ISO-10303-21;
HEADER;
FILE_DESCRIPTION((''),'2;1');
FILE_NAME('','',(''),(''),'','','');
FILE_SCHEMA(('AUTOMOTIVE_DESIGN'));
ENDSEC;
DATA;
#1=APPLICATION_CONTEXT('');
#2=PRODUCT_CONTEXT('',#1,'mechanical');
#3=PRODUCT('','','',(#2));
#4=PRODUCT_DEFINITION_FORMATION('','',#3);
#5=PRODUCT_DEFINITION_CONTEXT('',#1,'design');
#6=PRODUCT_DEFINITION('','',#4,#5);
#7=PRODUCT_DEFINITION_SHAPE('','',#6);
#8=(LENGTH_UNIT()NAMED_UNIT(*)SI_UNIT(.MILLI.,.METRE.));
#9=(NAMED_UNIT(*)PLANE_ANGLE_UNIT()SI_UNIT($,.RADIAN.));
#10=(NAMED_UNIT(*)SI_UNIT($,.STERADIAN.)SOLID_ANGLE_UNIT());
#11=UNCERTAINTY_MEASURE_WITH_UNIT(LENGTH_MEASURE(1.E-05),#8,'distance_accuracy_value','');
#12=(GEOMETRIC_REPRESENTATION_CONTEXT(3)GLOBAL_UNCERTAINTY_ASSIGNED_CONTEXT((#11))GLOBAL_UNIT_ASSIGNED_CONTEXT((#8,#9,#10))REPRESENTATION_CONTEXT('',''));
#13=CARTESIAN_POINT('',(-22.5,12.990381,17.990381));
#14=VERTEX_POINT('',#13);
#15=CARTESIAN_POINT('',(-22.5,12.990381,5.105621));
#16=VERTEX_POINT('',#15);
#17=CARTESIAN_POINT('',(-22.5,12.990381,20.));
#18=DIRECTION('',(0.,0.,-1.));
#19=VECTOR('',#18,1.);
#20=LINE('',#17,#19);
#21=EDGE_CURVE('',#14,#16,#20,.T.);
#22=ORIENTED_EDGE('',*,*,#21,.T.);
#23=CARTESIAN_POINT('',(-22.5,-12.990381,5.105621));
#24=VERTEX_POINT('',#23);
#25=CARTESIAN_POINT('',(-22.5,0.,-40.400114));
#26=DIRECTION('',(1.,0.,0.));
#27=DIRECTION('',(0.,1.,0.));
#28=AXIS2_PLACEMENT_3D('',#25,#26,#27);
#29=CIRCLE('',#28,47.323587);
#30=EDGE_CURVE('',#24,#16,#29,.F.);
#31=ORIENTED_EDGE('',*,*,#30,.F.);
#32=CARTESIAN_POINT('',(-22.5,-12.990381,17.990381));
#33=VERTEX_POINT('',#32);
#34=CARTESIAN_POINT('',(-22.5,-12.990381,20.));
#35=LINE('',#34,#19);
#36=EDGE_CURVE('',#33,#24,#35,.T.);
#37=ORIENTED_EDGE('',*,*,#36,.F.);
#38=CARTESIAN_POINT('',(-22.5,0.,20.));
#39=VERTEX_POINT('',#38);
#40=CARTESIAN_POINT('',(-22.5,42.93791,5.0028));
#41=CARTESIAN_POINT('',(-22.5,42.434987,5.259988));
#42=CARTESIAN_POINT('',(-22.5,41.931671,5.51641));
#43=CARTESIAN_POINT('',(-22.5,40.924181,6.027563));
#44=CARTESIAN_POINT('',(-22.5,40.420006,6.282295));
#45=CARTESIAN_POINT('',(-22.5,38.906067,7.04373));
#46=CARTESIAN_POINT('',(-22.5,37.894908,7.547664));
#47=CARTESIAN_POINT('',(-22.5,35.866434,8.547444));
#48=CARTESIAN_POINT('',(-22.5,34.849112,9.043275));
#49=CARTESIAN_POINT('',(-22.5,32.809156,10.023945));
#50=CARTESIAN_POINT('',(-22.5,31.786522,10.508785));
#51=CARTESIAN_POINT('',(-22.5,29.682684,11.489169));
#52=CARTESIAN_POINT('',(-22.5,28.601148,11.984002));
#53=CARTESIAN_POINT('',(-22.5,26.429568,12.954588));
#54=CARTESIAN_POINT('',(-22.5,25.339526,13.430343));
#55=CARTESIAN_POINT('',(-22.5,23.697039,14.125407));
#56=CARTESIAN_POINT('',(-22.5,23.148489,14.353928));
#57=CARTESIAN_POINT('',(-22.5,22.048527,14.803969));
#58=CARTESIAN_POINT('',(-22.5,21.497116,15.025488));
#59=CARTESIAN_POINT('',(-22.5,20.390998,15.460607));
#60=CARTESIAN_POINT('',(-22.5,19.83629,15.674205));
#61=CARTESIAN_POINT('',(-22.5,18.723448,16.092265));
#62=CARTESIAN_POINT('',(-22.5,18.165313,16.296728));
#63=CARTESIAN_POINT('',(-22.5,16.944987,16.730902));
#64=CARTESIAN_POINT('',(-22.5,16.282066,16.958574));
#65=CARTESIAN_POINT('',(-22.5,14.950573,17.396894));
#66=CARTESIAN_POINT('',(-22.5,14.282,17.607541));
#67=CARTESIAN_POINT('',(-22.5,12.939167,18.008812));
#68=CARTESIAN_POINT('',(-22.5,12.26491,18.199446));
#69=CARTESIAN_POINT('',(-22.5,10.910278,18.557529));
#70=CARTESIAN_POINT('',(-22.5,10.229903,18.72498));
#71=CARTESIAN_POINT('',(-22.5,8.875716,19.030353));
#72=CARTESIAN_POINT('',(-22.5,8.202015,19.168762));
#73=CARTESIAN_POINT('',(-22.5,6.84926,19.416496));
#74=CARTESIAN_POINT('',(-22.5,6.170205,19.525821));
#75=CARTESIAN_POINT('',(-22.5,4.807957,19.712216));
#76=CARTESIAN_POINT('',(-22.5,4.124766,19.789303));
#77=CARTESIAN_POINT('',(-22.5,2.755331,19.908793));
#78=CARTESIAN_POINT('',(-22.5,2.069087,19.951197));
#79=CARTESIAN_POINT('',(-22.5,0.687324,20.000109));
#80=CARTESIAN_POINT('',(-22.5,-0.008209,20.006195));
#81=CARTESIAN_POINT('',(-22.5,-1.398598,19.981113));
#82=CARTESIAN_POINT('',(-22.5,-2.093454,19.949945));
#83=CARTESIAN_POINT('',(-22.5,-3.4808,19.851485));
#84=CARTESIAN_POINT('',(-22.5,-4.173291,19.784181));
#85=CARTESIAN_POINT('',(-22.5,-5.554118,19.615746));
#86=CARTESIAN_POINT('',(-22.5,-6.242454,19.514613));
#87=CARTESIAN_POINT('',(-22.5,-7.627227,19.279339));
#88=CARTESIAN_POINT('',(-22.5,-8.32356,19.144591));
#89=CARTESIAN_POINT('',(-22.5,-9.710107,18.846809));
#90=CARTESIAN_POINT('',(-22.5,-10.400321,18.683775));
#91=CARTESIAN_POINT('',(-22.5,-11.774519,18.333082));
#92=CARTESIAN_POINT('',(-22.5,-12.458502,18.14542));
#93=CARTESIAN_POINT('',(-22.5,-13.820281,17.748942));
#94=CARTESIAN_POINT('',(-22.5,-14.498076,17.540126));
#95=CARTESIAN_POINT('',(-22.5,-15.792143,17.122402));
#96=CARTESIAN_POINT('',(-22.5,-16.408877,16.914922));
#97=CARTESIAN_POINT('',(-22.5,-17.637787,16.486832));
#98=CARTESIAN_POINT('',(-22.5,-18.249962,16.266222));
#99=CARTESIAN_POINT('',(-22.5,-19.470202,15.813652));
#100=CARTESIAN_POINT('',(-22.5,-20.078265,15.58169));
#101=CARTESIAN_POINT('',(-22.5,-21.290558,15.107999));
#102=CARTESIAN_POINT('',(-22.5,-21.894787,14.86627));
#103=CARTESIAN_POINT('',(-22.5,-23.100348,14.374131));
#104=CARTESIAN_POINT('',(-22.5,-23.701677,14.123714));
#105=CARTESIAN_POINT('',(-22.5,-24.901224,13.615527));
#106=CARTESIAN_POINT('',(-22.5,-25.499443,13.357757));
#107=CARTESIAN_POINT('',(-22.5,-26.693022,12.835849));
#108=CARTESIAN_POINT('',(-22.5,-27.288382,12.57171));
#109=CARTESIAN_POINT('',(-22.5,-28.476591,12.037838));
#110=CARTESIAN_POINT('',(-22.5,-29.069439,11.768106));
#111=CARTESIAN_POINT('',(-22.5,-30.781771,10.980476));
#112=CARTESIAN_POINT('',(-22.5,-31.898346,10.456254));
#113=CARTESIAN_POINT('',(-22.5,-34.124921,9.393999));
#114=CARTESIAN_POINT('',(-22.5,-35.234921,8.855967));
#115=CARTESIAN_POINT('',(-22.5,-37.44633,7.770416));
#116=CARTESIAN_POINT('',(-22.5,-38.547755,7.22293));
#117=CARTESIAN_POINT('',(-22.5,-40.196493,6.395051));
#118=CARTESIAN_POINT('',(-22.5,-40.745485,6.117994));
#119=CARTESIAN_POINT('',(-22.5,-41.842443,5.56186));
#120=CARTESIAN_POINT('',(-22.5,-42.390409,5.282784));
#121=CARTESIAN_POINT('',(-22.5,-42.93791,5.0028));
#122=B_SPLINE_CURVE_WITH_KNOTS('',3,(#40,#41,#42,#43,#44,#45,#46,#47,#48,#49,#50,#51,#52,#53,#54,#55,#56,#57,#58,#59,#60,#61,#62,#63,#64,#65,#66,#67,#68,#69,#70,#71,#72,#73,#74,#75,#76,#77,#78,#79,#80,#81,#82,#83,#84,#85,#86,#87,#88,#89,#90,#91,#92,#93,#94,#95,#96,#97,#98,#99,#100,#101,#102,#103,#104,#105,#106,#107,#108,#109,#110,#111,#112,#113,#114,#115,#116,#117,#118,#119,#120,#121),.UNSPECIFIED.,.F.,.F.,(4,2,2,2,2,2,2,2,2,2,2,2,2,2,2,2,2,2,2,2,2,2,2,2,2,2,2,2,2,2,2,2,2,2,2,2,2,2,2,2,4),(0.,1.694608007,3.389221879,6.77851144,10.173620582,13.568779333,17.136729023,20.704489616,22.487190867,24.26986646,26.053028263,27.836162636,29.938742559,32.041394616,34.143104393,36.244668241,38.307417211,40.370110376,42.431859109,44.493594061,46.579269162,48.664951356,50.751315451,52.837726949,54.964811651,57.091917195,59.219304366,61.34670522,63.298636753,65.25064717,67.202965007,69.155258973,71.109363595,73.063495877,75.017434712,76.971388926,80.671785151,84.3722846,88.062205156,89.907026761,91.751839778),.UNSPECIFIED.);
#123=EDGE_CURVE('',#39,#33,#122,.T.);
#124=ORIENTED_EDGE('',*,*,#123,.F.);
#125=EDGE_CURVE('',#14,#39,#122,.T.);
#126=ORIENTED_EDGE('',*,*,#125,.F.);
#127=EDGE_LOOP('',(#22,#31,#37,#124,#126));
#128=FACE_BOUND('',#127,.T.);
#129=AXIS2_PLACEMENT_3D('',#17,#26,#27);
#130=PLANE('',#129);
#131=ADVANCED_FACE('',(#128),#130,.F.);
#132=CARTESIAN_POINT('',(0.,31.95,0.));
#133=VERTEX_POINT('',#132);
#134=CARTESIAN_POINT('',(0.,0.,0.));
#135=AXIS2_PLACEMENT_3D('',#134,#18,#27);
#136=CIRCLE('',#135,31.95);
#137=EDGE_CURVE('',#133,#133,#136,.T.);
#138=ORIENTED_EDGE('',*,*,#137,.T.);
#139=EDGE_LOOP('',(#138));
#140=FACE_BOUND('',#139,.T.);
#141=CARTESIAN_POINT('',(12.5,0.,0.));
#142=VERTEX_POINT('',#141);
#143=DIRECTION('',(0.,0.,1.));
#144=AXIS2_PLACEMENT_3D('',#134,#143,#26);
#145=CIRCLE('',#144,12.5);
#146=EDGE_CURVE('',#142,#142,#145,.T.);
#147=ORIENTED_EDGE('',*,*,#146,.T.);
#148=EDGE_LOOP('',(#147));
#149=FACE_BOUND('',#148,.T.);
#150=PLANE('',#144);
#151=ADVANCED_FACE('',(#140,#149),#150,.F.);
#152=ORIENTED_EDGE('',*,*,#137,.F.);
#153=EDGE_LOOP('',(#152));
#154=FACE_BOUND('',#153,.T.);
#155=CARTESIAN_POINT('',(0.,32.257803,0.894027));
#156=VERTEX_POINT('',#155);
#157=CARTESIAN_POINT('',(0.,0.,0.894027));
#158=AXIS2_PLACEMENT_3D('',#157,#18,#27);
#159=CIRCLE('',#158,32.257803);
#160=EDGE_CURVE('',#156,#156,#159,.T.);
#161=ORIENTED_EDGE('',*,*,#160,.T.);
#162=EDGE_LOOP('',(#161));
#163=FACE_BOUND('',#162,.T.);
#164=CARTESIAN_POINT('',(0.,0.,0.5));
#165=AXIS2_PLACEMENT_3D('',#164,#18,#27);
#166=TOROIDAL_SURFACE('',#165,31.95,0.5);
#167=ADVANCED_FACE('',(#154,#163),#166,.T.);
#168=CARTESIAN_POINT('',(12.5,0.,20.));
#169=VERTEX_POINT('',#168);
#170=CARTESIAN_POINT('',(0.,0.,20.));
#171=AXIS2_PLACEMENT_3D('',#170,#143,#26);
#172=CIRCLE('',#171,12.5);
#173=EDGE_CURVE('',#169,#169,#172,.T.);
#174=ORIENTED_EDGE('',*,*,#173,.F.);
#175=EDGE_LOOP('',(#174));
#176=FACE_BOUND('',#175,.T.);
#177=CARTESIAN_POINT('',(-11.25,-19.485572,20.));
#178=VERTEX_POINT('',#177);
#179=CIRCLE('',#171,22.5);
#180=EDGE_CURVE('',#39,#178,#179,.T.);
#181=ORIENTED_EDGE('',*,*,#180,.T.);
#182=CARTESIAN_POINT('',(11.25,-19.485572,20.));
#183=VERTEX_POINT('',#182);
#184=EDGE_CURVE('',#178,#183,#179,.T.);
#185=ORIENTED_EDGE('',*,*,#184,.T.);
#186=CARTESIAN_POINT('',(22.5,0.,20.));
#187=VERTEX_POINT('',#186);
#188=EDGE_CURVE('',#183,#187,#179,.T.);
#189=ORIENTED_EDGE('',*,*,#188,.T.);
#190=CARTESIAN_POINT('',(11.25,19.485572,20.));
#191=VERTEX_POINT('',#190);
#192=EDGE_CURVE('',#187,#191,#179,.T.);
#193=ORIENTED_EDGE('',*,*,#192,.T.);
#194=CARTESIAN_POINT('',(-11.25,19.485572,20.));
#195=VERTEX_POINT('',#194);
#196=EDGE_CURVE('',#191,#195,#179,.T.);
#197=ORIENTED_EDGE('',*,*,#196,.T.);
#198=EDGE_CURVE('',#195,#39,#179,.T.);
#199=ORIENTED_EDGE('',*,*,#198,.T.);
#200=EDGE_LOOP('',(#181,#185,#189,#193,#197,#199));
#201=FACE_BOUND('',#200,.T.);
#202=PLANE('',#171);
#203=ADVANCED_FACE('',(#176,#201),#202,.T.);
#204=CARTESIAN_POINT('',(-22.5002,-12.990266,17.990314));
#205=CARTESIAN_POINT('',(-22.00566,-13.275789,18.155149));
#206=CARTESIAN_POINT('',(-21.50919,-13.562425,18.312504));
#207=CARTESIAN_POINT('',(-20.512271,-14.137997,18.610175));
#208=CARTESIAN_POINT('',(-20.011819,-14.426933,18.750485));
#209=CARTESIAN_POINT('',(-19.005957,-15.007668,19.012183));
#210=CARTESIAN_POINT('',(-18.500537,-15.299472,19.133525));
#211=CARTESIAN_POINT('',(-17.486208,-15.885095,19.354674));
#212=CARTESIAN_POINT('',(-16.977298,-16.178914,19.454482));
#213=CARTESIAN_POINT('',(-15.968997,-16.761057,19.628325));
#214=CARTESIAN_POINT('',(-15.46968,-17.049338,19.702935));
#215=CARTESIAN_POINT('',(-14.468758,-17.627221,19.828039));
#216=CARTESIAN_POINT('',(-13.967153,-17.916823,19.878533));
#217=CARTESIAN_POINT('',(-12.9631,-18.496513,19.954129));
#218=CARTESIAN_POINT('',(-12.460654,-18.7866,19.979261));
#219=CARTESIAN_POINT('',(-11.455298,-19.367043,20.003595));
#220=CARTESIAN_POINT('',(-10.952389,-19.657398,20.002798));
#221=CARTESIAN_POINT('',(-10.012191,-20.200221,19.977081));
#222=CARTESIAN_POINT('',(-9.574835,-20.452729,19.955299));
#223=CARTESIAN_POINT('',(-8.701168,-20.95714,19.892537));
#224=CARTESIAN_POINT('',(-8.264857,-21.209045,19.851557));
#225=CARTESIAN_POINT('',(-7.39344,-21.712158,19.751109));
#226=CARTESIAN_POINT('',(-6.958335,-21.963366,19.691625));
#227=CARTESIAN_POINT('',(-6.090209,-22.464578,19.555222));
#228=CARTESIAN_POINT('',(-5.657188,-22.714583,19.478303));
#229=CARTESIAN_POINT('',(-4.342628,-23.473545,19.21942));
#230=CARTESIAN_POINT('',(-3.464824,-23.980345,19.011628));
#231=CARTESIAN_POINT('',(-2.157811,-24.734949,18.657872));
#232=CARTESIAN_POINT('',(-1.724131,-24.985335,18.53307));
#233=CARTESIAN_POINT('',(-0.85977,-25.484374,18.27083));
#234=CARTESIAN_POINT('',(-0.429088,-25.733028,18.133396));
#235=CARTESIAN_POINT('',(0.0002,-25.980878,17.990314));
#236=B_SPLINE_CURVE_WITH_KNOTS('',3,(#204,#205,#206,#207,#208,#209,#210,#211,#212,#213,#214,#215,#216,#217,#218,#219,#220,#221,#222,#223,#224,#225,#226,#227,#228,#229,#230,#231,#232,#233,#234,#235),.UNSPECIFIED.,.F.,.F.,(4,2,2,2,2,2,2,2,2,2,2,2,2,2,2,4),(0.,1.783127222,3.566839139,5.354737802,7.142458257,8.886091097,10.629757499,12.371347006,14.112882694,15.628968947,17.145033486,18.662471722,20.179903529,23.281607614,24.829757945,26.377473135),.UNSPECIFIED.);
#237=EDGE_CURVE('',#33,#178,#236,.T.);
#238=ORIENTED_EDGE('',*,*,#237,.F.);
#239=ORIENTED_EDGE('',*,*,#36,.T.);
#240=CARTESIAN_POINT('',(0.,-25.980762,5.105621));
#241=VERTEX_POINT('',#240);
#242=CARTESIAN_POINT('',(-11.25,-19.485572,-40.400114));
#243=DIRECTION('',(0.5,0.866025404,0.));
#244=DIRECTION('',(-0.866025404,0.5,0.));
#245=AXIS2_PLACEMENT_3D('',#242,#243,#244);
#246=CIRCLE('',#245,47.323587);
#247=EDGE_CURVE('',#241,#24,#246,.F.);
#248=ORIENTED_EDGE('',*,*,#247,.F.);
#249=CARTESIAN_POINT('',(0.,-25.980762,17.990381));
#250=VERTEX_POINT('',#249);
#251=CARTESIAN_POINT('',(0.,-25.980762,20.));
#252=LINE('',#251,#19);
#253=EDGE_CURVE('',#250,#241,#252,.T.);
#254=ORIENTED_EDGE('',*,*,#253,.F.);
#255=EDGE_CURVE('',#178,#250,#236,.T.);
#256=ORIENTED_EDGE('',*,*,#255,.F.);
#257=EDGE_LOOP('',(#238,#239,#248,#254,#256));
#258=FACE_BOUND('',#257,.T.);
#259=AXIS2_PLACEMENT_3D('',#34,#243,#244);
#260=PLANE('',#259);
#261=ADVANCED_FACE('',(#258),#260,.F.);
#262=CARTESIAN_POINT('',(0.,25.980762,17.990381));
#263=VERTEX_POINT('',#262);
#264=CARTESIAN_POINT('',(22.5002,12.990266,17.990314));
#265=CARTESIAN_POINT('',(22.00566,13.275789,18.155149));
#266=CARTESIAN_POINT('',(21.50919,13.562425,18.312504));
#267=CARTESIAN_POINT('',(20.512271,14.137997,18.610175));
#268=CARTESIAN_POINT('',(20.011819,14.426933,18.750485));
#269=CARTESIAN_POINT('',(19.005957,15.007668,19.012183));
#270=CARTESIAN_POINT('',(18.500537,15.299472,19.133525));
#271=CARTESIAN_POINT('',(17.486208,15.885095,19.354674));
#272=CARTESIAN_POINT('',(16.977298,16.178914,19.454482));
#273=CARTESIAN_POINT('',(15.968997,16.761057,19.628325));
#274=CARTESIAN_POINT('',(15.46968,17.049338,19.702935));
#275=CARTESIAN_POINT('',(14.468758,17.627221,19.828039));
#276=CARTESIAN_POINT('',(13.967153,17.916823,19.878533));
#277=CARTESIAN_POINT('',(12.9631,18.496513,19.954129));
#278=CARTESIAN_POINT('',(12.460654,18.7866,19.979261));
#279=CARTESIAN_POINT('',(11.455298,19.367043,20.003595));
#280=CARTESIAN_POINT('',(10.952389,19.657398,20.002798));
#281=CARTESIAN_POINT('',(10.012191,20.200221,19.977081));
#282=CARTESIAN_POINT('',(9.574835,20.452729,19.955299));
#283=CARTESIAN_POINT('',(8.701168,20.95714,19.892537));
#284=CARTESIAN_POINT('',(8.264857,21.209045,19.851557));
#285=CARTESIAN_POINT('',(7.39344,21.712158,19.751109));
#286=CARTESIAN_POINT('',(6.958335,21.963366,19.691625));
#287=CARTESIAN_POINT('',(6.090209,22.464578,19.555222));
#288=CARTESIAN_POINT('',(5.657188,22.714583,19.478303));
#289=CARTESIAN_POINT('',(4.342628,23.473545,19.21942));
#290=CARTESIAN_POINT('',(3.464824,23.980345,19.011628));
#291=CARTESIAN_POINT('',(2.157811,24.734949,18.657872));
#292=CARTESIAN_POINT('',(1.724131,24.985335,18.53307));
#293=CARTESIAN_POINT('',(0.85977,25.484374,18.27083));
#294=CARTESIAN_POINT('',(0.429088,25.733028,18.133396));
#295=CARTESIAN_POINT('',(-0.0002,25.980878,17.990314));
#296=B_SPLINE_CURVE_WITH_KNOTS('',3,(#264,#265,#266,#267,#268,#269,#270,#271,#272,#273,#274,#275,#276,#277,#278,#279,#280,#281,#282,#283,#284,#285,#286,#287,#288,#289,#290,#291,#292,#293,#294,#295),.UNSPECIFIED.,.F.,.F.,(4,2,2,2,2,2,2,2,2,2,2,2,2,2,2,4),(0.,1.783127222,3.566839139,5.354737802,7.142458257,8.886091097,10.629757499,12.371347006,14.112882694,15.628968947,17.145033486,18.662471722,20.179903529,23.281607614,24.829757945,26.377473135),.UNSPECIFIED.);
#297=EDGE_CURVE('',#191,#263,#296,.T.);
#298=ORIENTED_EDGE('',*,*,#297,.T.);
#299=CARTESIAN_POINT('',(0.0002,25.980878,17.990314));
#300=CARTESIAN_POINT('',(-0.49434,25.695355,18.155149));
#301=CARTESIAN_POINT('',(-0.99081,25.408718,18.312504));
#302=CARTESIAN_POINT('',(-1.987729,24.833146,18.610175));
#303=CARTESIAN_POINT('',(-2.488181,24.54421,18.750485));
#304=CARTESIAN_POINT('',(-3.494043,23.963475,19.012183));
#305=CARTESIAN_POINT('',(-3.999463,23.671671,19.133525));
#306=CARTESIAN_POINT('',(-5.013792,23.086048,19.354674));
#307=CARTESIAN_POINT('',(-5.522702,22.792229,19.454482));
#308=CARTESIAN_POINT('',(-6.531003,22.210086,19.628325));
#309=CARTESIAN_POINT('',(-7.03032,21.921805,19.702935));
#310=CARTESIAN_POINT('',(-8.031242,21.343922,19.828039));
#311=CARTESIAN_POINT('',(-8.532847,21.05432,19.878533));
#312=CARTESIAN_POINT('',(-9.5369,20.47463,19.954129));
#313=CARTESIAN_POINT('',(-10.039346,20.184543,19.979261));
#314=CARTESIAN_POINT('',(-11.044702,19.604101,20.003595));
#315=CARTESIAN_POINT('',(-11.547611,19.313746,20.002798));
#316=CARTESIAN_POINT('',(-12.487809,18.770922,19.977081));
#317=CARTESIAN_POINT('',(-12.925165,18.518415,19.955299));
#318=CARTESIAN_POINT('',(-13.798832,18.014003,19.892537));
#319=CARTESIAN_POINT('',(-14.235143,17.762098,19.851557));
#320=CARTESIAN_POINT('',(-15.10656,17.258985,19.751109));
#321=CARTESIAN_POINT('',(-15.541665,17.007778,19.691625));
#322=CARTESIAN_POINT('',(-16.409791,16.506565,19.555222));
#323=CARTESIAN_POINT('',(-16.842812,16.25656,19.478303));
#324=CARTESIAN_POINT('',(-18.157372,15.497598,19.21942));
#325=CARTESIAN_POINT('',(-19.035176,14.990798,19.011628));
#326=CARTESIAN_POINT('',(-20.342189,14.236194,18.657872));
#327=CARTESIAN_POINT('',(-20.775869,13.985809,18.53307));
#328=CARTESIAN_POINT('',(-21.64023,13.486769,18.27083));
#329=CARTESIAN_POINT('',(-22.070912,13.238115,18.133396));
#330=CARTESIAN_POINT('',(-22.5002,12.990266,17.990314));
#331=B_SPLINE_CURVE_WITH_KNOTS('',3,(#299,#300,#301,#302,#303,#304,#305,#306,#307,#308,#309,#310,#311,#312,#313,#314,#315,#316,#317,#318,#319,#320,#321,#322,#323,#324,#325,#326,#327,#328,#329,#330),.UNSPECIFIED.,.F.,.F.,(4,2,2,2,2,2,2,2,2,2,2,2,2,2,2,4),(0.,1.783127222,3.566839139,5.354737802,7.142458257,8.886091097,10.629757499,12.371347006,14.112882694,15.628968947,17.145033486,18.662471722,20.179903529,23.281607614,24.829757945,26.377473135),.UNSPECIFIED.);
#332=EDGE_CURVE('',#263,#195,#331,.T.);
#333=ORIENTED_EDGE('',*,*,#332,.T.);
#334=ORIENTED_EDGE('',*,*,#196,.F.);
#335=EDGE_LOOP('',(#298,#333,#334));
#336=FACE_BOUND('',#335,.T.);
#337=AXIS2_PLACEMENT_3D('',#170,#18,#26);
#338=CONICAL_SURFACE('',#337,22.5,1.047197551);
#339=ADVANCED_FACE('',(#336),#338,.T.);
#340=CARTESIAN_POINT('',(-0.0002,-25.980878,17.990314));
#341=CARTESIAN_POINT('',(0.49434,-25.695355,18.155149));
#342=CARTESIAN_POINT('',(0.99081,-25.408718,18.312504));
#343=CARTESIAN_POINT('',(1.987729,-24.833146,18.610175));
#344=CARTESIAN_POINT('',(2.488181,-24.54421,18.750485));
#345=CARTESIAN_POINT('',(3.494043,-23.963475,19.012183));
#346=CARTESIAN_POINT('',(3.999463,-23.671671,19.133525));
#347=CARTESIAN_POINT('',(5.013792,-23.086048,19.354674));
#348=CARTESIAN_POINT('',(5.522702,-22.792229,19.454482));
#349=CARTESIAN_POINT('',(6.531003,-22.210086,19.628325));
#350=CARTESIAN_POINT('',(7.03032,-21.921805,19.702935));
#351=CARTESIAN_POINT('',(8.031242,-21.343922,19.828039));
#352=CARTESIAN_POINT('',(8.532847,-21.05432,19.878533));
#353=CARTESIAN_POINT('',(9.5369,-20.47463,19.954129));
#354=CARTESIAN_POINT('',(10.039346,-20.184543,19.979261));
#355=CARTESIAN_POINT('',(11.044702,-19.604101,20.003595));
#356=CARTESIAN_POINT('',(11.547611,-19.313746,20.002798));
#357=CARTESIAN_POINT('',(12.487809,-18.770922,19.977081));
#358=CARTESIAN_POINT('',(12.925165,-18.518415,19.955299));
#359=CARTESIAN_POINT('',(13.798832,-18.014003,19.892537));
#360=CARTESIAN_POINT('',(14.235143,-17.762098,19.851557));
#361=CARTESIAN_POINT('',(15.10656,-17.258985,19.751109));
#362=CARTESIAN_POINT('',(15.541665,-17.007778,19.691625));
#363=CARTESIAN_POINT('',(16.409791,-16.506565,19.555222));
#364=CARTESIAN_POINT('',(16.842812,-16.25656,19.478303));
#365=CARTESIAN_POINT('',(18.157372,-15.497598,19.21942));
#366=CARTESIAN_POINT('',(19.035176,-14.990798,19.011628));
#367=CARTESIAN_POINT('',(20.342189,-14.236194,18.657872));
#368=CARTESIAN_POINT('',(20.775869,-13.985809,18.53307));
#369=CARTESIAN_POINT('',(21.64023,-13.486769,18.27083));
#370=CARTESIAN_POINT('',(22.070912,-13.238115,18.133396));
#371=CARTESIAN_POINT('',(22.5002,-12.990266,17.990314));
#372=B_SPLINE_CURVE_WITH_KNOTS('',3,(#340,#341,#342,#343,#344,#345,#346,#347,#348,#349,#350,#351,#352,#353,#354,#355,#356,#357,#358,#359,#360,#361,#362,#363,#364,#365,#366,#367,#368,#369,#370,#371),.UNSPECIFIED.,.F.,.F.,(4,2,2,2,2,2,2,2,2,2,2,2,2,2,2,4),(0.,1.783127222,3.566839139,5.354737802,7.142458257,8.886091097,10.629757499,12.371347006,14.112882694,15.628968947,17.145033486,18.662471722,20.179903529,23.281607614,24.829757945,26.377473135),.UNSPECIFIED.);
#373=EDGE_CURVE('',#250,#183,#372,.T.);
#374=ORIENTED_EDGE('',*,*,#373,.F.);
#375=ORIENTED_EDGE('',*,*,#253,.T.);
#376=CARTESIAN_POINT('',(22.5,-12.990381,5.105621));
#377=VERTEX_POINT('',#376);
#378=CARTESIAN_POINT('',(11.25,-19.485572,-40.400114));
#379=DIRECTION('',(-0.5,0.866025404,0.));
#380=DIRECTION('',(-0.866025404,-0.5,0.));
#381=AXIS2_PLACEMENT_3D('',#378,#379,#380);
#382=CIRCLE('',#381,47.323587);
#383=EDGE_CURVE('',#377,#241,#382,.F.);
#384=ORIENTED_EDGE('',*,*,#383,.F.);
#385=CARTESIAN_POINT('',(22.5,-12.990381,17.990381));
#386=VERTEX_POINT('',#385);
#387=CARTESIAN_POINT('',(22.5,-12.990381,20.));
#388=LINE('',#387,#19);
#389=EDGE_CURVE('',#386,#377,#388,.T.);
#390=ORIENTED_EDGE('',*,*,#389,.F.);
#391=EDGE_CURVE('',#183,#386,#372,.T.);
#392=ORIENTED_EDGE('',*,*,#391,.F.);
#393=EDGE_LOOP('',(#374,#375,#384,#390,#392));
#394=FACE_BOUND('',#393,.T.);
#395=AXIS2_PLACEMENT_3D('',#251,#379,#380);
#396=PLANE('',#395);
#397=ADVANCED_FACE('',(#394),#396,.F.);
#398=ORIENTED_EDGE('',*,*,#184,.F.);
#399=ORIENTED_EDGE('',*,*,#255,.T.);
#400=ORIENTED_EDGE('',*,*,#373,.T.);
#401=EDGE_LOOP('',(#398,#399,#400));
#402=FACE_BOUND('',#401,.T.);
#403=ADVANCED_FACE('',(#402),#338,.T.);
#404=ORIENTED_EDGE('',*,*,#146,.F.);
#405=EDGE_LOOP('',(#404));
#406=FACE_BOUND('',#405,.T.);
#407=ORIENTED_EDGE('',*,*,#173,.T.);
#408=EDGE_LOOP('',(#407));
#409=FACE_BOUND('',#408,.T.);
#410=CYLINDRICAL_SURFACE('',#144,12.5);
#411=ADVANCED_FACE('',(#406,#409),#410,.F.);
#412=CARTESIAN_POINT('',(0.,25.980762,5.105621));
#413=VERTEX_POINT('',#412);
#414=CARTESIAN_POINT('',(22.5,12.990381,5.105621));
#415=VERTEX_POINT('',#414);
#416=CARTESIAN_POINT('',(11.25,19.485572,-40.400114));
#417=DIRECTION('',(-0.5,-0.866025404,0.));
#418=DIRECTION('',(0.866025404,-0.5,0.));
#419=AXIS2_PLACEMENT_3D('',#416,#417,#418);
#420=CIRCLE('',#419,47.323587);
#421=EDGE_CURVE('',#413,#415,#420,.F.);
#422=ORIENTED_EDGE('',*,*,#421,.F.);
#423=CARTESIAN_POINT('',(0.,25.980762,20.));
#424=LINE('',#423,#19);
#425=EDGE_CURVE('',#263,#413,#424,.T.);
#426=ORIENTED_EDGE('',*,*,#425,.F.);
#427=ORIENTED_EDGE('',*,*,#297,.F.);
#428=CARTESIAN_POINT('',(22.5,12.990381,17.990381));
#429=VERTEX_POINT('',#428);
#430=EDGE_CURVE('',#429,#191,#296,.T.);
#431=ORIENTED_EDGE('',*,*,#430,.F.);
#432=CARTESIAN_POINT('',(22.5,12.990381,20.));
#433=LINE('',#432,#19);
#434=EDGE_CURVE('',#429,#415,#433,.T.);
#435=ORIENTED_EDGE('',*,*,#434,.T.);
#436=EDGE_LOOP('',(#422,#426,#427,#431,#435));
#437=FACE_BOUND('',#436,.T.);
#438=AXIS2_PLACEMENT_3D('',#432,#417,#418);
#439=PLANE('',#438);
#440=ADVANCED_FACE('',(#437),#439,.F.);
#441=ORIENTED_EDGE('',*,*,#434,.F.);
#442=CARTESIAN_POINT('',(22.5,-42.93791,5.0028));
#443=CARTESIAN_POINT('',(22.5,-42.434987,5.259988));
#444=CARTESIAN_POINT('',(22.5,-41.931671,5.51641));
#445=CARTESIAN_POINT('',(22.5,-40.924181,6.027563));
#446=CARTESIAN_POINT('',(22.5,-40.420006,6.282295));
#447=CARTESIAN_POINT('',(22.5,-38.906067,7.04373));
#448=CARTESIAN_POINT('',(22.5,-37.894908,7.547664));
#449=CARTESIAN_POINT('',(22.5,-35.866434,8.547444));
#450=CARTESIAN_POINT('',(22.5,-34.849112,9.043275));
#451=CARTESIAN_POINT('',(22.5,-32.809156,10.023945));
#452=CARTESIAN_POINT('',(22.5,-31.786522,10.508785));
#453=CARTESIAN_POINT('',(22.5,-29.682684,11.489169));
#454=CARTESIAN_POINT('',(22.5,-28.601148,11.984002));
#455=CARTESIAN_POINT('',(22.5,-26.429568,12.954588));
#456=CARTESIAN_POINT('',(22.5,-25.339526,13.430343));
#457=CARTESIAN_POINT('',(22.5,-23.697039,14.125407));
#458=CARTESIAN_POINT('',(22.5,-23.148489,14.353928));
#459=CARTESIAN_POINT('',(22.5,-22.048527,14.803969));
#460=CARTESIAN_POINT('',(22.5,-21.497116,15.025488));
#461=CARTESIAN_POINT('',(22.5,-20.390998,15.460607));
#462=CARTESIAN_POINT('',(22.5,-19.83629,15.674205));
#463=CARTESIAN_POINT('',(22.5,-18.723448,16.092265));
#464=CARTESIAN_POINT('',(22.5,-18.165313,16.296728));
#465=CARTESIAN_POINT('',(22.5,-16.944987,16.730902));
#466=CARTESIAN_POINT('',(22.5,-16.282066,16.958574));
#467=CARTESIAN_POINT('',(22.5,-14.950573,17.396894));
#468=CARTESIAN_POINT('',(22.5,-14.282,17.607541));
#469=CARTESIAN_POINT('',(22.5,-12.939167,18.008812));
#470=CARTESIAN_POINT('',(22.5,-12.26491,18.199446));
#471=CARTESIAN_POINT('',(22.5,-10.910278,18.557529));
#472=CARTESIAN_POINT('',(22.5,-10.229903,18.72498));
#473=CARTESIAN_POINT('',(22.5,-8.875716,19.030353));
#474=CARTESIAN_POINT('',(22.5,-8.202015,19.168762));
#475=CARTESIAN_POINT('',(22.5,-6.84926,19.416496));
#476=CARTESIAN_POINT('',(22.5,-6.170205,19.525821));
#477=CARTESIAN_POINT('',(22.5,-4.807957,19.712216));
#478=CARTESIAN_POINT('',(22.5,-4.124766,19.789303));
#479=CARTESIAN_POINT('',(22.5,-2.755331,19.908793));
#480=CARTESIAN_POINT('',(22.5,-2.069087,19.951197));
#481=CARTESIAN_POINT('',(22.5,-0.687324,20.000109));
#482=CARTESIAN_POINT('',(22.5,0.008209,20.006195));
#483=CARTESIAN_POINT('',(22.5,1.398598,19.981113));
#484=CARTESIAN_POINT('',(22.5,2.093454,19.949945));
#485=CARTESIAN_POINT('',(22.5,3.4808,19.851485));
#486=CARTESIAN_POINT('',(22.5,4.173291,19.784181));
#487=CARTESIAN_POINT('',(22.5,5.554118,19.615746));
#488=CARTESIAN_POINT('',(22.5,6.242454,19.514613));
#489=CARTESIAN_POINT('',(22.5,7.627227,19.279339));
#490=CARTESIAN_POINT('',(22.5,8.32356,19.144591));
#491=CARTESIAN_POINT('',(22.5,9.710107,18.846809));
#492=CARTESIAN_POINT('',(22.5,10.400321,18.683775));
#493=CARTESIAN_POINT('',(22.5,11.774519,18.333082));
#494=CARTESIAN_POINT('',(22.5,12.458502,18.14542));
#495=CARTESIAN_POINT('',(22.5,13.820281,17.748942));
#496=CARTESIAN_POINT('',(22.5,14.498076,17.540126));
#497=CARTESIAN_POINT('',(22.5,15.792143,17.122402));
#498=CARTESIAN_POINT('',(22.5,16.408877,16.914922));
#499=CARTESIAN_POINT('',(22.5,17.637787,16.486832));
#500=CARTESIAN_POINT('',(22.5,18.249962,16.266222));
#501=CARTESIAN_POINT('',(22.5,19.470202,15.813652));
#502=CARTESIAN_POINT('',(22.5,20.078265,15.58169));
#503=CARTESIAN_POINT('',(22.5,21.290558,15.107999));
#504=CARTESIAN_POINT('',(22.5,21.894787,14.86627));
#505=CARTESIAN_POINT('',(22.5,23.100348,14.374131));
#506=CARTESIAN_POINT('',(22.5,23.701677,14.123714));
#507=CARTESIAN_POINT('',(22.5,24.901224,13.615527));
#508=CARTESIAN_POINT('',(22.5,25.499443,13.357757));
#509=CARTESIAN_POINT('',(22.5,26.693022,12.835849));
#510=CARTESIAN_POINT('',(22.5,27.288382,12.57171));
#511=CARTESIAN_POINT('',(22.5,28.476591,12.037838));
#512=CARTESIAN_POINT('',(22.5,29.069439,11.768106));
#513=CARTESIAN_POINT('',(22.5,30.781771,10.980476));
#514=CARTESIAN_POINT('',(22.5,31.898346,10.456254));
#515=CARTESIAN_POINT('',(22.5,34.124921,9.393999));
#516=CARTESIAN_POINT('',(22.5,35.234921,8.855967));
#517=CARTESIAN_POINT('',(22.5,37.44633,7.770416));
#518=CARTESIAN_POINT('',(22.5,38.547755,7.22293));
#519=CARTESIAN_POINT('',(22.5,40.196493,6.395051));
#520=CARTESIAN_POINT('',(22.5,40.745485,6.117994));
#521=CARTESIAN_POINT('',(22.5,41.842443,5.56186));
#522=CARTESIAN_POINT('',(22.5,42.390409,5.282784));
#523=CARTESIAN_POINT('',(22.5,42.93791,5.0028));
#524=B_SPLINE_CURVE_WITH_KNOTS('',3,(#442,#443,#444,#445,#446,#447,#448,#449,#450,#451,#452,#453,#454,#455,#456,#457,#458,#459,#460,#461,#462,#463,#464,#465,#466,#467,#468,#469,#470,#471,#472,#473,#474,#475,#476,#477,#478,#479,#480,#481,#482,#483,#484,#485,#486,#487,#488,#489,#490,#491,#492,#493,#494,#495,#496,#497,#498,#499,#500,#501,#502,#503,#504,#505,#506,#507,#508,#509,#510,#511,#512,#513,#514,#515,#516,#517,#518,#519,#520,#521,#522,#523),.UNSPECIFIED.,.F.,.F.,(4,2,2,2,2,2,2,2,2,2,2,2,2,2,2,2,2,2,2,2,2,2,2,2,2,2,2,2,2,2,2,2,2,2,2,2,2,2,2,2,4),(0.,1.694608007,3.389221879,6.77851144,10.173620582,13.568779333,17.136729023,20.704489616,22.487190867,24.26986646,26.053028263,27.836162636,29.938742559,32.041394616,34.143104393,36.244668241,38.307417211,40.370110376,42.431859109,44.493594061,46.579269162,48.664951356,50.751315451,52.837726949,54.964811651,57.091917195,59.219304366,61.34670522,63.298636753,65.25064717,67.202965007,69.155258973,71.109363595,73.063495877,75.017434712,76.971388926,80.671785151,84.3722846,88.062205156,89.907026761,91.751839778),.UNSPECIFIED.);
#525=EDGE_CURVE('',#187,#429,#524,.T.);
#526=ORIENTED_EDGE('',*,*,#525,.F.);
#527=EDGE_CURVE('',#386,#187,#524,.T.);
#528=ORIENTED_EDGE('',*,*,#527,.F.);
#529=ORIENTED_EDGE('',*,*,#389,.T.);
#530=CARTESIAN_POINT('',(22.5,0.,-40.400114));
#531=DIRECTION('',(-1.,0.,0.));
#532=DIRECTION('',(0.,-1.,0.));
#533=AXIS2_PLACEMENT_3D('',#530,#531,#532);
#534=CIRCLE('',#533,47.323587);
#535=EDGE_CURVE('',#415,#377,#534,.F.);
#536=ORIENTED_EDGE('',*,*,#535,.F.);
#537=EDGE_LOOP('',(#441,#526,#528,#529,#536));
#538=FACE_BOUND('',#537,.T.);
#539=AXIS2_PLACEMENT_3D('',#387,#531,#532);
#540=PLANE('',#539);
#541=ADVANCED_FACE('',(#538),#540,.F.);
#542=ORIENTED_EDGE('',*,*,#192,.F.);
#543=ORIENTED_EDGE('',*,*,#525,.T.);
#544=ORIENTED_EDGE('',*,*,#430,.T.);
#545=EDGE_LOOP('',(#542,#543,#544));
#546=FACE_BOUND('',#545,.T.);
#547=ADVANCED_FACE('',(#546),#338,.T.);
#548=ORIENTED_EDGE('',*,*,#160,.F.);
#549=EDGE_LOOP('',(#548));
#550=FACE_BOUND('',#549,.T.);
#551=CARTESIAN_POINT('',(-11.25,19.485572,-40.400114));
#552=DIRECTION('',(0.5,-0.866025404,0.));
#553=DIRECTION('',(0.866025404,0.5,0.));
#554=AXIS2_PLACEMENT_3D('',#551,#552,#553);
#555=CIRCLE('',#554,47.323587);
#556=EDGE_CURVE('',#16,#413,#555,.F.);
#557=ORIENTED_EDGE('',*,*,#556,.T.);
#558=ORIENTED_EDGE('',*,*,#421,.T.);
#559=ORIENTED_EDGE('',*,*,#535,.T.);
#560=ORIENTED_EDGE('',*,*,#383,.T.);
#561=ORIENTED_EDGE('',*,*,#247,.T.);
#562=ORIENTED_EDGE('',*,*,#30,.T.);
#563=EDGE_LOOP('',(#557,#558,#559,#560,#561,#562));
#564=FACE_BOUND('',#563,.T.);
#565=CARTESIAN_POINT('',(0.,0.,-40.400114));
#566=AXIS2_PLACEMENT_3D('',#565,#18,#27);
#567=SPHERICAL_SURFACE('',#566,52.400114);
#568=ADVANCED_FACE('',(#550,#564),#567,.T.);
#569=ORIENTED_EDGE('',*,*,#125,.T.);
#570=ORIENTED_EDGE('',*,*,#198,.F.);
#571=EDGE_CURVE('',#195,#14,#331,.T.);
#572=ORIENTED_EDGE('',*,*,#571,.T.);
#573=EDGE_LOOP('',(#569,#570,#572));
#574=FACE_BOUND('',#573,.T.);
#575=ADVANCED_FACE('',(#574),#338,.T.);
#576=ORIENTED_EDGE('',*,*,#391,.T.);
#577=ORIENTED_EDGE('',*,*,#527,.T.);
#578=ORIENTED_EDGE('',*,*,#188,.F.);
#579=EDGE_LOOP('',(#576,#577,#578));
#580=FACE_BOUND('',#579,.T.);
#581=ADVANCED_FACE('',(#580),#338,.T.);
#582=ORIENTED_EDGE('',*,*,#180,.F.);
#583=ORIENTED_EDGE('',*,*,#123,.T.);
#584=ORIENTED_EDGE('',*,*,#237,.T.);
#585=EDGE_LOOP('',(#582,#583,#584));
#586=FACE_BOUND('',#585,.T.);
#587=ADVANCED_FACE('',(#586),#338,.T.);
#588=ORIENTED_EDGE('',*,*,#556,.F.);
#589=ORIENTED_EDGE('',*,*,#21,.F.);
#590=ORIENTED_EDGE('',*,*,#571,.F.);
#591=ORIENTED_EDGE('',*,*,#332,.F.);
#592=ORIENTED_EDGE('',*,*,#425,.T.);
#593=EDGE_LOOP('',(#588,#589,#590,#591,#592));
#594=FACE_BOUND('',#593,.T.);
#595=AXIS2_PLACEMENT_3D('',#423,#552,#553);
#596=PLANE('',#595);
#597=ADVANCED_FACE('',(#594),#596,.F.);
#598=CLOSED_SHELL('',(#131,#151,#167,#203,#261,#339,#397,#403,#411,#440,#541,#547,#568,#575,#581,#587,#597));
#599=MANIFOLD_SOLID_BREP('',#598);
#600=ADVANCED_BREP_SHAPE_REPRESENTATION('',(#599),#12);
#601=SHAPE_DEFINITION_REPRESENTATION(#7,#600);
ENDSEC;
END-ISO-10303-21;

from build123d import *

# Parameters (mm, degrees)
EXTRUDE_1_DEPTH     = 20
SKETCH_3_OUTSIDE_W  = 154.97
SKETCH_3_OUTSIDE_H  = 154.97
SKETCH_3_OUTSIDE_R  = 22.5
CUT_EXTRUDE_2_DEPTH = 20
CUT_EXTRUDE_2_TAPER = 60
SKETCH_4_R          = 12.5
CUT_EXTRUDE_3_DEPTH = 21


with BuildPart() as part:
    # 草图1 → 凸台-拉伸1 (new body)
    with BuildSketch(Plane.XY):
        Polygon((22.5, -12.990381057), (22.5, 12.990381057), (0, 25.980762114), (-22.5, 12.990381057), (-22.5, -12.990381057), (0, -25.980762114), align=None)
    extrude(amount=EXTRUDE_1_DEPTH)

    # 草图2 → 旋转1 (revolve)
    with BuildSketch(Plane(origin=(0, 0, 0), x_dir=(0, 0, -1), z_dir=(1, 0, 0))):
        with BuildLine():
            Line((0, 0), (-12, 0))
            ThreePointArc((-12, 0), (-9.145772075, -17.058051419), (-0.894027207, -32.257802794))
            ThreePointArc((-0.894027207, -32.257802794), (-0.337232687, -32.42276506), (0, -31.95))
            Line((0, -31.95), (0, 0))
        make_face()
    revolve(axis=Axis((0, 0, 0), (0, 0, 1)))

    # 草图3 outside → 切除-拉伸2 (cut)
    with BuildSketch(Plane.XY.offset(20)):
        Rectangle(SKETCH_3_OUTSIDE_W, SKETCH_3_OUTSIDE_H)
        Circle(SKETCH_3_OUTSIDE_R, mode=Mode.SUBTRACT)
    extrude(amount=-CUT_EXTRUDE_2_DEPTH, taper=CUT_EXTRUDE_2_TAPER, mode=Mode.SUBTRACT)

    # 草图4 → 切除-拉伸3 (cut, through all)
    with BuildSketch(Plane.XY.offset(20)):
        Circle(SKETCH_4_R)
    extrude(amount=-CUT_EXTRUDE_3_DEPTH, mode=Mode.SUBTRACT)


solid = part.part
